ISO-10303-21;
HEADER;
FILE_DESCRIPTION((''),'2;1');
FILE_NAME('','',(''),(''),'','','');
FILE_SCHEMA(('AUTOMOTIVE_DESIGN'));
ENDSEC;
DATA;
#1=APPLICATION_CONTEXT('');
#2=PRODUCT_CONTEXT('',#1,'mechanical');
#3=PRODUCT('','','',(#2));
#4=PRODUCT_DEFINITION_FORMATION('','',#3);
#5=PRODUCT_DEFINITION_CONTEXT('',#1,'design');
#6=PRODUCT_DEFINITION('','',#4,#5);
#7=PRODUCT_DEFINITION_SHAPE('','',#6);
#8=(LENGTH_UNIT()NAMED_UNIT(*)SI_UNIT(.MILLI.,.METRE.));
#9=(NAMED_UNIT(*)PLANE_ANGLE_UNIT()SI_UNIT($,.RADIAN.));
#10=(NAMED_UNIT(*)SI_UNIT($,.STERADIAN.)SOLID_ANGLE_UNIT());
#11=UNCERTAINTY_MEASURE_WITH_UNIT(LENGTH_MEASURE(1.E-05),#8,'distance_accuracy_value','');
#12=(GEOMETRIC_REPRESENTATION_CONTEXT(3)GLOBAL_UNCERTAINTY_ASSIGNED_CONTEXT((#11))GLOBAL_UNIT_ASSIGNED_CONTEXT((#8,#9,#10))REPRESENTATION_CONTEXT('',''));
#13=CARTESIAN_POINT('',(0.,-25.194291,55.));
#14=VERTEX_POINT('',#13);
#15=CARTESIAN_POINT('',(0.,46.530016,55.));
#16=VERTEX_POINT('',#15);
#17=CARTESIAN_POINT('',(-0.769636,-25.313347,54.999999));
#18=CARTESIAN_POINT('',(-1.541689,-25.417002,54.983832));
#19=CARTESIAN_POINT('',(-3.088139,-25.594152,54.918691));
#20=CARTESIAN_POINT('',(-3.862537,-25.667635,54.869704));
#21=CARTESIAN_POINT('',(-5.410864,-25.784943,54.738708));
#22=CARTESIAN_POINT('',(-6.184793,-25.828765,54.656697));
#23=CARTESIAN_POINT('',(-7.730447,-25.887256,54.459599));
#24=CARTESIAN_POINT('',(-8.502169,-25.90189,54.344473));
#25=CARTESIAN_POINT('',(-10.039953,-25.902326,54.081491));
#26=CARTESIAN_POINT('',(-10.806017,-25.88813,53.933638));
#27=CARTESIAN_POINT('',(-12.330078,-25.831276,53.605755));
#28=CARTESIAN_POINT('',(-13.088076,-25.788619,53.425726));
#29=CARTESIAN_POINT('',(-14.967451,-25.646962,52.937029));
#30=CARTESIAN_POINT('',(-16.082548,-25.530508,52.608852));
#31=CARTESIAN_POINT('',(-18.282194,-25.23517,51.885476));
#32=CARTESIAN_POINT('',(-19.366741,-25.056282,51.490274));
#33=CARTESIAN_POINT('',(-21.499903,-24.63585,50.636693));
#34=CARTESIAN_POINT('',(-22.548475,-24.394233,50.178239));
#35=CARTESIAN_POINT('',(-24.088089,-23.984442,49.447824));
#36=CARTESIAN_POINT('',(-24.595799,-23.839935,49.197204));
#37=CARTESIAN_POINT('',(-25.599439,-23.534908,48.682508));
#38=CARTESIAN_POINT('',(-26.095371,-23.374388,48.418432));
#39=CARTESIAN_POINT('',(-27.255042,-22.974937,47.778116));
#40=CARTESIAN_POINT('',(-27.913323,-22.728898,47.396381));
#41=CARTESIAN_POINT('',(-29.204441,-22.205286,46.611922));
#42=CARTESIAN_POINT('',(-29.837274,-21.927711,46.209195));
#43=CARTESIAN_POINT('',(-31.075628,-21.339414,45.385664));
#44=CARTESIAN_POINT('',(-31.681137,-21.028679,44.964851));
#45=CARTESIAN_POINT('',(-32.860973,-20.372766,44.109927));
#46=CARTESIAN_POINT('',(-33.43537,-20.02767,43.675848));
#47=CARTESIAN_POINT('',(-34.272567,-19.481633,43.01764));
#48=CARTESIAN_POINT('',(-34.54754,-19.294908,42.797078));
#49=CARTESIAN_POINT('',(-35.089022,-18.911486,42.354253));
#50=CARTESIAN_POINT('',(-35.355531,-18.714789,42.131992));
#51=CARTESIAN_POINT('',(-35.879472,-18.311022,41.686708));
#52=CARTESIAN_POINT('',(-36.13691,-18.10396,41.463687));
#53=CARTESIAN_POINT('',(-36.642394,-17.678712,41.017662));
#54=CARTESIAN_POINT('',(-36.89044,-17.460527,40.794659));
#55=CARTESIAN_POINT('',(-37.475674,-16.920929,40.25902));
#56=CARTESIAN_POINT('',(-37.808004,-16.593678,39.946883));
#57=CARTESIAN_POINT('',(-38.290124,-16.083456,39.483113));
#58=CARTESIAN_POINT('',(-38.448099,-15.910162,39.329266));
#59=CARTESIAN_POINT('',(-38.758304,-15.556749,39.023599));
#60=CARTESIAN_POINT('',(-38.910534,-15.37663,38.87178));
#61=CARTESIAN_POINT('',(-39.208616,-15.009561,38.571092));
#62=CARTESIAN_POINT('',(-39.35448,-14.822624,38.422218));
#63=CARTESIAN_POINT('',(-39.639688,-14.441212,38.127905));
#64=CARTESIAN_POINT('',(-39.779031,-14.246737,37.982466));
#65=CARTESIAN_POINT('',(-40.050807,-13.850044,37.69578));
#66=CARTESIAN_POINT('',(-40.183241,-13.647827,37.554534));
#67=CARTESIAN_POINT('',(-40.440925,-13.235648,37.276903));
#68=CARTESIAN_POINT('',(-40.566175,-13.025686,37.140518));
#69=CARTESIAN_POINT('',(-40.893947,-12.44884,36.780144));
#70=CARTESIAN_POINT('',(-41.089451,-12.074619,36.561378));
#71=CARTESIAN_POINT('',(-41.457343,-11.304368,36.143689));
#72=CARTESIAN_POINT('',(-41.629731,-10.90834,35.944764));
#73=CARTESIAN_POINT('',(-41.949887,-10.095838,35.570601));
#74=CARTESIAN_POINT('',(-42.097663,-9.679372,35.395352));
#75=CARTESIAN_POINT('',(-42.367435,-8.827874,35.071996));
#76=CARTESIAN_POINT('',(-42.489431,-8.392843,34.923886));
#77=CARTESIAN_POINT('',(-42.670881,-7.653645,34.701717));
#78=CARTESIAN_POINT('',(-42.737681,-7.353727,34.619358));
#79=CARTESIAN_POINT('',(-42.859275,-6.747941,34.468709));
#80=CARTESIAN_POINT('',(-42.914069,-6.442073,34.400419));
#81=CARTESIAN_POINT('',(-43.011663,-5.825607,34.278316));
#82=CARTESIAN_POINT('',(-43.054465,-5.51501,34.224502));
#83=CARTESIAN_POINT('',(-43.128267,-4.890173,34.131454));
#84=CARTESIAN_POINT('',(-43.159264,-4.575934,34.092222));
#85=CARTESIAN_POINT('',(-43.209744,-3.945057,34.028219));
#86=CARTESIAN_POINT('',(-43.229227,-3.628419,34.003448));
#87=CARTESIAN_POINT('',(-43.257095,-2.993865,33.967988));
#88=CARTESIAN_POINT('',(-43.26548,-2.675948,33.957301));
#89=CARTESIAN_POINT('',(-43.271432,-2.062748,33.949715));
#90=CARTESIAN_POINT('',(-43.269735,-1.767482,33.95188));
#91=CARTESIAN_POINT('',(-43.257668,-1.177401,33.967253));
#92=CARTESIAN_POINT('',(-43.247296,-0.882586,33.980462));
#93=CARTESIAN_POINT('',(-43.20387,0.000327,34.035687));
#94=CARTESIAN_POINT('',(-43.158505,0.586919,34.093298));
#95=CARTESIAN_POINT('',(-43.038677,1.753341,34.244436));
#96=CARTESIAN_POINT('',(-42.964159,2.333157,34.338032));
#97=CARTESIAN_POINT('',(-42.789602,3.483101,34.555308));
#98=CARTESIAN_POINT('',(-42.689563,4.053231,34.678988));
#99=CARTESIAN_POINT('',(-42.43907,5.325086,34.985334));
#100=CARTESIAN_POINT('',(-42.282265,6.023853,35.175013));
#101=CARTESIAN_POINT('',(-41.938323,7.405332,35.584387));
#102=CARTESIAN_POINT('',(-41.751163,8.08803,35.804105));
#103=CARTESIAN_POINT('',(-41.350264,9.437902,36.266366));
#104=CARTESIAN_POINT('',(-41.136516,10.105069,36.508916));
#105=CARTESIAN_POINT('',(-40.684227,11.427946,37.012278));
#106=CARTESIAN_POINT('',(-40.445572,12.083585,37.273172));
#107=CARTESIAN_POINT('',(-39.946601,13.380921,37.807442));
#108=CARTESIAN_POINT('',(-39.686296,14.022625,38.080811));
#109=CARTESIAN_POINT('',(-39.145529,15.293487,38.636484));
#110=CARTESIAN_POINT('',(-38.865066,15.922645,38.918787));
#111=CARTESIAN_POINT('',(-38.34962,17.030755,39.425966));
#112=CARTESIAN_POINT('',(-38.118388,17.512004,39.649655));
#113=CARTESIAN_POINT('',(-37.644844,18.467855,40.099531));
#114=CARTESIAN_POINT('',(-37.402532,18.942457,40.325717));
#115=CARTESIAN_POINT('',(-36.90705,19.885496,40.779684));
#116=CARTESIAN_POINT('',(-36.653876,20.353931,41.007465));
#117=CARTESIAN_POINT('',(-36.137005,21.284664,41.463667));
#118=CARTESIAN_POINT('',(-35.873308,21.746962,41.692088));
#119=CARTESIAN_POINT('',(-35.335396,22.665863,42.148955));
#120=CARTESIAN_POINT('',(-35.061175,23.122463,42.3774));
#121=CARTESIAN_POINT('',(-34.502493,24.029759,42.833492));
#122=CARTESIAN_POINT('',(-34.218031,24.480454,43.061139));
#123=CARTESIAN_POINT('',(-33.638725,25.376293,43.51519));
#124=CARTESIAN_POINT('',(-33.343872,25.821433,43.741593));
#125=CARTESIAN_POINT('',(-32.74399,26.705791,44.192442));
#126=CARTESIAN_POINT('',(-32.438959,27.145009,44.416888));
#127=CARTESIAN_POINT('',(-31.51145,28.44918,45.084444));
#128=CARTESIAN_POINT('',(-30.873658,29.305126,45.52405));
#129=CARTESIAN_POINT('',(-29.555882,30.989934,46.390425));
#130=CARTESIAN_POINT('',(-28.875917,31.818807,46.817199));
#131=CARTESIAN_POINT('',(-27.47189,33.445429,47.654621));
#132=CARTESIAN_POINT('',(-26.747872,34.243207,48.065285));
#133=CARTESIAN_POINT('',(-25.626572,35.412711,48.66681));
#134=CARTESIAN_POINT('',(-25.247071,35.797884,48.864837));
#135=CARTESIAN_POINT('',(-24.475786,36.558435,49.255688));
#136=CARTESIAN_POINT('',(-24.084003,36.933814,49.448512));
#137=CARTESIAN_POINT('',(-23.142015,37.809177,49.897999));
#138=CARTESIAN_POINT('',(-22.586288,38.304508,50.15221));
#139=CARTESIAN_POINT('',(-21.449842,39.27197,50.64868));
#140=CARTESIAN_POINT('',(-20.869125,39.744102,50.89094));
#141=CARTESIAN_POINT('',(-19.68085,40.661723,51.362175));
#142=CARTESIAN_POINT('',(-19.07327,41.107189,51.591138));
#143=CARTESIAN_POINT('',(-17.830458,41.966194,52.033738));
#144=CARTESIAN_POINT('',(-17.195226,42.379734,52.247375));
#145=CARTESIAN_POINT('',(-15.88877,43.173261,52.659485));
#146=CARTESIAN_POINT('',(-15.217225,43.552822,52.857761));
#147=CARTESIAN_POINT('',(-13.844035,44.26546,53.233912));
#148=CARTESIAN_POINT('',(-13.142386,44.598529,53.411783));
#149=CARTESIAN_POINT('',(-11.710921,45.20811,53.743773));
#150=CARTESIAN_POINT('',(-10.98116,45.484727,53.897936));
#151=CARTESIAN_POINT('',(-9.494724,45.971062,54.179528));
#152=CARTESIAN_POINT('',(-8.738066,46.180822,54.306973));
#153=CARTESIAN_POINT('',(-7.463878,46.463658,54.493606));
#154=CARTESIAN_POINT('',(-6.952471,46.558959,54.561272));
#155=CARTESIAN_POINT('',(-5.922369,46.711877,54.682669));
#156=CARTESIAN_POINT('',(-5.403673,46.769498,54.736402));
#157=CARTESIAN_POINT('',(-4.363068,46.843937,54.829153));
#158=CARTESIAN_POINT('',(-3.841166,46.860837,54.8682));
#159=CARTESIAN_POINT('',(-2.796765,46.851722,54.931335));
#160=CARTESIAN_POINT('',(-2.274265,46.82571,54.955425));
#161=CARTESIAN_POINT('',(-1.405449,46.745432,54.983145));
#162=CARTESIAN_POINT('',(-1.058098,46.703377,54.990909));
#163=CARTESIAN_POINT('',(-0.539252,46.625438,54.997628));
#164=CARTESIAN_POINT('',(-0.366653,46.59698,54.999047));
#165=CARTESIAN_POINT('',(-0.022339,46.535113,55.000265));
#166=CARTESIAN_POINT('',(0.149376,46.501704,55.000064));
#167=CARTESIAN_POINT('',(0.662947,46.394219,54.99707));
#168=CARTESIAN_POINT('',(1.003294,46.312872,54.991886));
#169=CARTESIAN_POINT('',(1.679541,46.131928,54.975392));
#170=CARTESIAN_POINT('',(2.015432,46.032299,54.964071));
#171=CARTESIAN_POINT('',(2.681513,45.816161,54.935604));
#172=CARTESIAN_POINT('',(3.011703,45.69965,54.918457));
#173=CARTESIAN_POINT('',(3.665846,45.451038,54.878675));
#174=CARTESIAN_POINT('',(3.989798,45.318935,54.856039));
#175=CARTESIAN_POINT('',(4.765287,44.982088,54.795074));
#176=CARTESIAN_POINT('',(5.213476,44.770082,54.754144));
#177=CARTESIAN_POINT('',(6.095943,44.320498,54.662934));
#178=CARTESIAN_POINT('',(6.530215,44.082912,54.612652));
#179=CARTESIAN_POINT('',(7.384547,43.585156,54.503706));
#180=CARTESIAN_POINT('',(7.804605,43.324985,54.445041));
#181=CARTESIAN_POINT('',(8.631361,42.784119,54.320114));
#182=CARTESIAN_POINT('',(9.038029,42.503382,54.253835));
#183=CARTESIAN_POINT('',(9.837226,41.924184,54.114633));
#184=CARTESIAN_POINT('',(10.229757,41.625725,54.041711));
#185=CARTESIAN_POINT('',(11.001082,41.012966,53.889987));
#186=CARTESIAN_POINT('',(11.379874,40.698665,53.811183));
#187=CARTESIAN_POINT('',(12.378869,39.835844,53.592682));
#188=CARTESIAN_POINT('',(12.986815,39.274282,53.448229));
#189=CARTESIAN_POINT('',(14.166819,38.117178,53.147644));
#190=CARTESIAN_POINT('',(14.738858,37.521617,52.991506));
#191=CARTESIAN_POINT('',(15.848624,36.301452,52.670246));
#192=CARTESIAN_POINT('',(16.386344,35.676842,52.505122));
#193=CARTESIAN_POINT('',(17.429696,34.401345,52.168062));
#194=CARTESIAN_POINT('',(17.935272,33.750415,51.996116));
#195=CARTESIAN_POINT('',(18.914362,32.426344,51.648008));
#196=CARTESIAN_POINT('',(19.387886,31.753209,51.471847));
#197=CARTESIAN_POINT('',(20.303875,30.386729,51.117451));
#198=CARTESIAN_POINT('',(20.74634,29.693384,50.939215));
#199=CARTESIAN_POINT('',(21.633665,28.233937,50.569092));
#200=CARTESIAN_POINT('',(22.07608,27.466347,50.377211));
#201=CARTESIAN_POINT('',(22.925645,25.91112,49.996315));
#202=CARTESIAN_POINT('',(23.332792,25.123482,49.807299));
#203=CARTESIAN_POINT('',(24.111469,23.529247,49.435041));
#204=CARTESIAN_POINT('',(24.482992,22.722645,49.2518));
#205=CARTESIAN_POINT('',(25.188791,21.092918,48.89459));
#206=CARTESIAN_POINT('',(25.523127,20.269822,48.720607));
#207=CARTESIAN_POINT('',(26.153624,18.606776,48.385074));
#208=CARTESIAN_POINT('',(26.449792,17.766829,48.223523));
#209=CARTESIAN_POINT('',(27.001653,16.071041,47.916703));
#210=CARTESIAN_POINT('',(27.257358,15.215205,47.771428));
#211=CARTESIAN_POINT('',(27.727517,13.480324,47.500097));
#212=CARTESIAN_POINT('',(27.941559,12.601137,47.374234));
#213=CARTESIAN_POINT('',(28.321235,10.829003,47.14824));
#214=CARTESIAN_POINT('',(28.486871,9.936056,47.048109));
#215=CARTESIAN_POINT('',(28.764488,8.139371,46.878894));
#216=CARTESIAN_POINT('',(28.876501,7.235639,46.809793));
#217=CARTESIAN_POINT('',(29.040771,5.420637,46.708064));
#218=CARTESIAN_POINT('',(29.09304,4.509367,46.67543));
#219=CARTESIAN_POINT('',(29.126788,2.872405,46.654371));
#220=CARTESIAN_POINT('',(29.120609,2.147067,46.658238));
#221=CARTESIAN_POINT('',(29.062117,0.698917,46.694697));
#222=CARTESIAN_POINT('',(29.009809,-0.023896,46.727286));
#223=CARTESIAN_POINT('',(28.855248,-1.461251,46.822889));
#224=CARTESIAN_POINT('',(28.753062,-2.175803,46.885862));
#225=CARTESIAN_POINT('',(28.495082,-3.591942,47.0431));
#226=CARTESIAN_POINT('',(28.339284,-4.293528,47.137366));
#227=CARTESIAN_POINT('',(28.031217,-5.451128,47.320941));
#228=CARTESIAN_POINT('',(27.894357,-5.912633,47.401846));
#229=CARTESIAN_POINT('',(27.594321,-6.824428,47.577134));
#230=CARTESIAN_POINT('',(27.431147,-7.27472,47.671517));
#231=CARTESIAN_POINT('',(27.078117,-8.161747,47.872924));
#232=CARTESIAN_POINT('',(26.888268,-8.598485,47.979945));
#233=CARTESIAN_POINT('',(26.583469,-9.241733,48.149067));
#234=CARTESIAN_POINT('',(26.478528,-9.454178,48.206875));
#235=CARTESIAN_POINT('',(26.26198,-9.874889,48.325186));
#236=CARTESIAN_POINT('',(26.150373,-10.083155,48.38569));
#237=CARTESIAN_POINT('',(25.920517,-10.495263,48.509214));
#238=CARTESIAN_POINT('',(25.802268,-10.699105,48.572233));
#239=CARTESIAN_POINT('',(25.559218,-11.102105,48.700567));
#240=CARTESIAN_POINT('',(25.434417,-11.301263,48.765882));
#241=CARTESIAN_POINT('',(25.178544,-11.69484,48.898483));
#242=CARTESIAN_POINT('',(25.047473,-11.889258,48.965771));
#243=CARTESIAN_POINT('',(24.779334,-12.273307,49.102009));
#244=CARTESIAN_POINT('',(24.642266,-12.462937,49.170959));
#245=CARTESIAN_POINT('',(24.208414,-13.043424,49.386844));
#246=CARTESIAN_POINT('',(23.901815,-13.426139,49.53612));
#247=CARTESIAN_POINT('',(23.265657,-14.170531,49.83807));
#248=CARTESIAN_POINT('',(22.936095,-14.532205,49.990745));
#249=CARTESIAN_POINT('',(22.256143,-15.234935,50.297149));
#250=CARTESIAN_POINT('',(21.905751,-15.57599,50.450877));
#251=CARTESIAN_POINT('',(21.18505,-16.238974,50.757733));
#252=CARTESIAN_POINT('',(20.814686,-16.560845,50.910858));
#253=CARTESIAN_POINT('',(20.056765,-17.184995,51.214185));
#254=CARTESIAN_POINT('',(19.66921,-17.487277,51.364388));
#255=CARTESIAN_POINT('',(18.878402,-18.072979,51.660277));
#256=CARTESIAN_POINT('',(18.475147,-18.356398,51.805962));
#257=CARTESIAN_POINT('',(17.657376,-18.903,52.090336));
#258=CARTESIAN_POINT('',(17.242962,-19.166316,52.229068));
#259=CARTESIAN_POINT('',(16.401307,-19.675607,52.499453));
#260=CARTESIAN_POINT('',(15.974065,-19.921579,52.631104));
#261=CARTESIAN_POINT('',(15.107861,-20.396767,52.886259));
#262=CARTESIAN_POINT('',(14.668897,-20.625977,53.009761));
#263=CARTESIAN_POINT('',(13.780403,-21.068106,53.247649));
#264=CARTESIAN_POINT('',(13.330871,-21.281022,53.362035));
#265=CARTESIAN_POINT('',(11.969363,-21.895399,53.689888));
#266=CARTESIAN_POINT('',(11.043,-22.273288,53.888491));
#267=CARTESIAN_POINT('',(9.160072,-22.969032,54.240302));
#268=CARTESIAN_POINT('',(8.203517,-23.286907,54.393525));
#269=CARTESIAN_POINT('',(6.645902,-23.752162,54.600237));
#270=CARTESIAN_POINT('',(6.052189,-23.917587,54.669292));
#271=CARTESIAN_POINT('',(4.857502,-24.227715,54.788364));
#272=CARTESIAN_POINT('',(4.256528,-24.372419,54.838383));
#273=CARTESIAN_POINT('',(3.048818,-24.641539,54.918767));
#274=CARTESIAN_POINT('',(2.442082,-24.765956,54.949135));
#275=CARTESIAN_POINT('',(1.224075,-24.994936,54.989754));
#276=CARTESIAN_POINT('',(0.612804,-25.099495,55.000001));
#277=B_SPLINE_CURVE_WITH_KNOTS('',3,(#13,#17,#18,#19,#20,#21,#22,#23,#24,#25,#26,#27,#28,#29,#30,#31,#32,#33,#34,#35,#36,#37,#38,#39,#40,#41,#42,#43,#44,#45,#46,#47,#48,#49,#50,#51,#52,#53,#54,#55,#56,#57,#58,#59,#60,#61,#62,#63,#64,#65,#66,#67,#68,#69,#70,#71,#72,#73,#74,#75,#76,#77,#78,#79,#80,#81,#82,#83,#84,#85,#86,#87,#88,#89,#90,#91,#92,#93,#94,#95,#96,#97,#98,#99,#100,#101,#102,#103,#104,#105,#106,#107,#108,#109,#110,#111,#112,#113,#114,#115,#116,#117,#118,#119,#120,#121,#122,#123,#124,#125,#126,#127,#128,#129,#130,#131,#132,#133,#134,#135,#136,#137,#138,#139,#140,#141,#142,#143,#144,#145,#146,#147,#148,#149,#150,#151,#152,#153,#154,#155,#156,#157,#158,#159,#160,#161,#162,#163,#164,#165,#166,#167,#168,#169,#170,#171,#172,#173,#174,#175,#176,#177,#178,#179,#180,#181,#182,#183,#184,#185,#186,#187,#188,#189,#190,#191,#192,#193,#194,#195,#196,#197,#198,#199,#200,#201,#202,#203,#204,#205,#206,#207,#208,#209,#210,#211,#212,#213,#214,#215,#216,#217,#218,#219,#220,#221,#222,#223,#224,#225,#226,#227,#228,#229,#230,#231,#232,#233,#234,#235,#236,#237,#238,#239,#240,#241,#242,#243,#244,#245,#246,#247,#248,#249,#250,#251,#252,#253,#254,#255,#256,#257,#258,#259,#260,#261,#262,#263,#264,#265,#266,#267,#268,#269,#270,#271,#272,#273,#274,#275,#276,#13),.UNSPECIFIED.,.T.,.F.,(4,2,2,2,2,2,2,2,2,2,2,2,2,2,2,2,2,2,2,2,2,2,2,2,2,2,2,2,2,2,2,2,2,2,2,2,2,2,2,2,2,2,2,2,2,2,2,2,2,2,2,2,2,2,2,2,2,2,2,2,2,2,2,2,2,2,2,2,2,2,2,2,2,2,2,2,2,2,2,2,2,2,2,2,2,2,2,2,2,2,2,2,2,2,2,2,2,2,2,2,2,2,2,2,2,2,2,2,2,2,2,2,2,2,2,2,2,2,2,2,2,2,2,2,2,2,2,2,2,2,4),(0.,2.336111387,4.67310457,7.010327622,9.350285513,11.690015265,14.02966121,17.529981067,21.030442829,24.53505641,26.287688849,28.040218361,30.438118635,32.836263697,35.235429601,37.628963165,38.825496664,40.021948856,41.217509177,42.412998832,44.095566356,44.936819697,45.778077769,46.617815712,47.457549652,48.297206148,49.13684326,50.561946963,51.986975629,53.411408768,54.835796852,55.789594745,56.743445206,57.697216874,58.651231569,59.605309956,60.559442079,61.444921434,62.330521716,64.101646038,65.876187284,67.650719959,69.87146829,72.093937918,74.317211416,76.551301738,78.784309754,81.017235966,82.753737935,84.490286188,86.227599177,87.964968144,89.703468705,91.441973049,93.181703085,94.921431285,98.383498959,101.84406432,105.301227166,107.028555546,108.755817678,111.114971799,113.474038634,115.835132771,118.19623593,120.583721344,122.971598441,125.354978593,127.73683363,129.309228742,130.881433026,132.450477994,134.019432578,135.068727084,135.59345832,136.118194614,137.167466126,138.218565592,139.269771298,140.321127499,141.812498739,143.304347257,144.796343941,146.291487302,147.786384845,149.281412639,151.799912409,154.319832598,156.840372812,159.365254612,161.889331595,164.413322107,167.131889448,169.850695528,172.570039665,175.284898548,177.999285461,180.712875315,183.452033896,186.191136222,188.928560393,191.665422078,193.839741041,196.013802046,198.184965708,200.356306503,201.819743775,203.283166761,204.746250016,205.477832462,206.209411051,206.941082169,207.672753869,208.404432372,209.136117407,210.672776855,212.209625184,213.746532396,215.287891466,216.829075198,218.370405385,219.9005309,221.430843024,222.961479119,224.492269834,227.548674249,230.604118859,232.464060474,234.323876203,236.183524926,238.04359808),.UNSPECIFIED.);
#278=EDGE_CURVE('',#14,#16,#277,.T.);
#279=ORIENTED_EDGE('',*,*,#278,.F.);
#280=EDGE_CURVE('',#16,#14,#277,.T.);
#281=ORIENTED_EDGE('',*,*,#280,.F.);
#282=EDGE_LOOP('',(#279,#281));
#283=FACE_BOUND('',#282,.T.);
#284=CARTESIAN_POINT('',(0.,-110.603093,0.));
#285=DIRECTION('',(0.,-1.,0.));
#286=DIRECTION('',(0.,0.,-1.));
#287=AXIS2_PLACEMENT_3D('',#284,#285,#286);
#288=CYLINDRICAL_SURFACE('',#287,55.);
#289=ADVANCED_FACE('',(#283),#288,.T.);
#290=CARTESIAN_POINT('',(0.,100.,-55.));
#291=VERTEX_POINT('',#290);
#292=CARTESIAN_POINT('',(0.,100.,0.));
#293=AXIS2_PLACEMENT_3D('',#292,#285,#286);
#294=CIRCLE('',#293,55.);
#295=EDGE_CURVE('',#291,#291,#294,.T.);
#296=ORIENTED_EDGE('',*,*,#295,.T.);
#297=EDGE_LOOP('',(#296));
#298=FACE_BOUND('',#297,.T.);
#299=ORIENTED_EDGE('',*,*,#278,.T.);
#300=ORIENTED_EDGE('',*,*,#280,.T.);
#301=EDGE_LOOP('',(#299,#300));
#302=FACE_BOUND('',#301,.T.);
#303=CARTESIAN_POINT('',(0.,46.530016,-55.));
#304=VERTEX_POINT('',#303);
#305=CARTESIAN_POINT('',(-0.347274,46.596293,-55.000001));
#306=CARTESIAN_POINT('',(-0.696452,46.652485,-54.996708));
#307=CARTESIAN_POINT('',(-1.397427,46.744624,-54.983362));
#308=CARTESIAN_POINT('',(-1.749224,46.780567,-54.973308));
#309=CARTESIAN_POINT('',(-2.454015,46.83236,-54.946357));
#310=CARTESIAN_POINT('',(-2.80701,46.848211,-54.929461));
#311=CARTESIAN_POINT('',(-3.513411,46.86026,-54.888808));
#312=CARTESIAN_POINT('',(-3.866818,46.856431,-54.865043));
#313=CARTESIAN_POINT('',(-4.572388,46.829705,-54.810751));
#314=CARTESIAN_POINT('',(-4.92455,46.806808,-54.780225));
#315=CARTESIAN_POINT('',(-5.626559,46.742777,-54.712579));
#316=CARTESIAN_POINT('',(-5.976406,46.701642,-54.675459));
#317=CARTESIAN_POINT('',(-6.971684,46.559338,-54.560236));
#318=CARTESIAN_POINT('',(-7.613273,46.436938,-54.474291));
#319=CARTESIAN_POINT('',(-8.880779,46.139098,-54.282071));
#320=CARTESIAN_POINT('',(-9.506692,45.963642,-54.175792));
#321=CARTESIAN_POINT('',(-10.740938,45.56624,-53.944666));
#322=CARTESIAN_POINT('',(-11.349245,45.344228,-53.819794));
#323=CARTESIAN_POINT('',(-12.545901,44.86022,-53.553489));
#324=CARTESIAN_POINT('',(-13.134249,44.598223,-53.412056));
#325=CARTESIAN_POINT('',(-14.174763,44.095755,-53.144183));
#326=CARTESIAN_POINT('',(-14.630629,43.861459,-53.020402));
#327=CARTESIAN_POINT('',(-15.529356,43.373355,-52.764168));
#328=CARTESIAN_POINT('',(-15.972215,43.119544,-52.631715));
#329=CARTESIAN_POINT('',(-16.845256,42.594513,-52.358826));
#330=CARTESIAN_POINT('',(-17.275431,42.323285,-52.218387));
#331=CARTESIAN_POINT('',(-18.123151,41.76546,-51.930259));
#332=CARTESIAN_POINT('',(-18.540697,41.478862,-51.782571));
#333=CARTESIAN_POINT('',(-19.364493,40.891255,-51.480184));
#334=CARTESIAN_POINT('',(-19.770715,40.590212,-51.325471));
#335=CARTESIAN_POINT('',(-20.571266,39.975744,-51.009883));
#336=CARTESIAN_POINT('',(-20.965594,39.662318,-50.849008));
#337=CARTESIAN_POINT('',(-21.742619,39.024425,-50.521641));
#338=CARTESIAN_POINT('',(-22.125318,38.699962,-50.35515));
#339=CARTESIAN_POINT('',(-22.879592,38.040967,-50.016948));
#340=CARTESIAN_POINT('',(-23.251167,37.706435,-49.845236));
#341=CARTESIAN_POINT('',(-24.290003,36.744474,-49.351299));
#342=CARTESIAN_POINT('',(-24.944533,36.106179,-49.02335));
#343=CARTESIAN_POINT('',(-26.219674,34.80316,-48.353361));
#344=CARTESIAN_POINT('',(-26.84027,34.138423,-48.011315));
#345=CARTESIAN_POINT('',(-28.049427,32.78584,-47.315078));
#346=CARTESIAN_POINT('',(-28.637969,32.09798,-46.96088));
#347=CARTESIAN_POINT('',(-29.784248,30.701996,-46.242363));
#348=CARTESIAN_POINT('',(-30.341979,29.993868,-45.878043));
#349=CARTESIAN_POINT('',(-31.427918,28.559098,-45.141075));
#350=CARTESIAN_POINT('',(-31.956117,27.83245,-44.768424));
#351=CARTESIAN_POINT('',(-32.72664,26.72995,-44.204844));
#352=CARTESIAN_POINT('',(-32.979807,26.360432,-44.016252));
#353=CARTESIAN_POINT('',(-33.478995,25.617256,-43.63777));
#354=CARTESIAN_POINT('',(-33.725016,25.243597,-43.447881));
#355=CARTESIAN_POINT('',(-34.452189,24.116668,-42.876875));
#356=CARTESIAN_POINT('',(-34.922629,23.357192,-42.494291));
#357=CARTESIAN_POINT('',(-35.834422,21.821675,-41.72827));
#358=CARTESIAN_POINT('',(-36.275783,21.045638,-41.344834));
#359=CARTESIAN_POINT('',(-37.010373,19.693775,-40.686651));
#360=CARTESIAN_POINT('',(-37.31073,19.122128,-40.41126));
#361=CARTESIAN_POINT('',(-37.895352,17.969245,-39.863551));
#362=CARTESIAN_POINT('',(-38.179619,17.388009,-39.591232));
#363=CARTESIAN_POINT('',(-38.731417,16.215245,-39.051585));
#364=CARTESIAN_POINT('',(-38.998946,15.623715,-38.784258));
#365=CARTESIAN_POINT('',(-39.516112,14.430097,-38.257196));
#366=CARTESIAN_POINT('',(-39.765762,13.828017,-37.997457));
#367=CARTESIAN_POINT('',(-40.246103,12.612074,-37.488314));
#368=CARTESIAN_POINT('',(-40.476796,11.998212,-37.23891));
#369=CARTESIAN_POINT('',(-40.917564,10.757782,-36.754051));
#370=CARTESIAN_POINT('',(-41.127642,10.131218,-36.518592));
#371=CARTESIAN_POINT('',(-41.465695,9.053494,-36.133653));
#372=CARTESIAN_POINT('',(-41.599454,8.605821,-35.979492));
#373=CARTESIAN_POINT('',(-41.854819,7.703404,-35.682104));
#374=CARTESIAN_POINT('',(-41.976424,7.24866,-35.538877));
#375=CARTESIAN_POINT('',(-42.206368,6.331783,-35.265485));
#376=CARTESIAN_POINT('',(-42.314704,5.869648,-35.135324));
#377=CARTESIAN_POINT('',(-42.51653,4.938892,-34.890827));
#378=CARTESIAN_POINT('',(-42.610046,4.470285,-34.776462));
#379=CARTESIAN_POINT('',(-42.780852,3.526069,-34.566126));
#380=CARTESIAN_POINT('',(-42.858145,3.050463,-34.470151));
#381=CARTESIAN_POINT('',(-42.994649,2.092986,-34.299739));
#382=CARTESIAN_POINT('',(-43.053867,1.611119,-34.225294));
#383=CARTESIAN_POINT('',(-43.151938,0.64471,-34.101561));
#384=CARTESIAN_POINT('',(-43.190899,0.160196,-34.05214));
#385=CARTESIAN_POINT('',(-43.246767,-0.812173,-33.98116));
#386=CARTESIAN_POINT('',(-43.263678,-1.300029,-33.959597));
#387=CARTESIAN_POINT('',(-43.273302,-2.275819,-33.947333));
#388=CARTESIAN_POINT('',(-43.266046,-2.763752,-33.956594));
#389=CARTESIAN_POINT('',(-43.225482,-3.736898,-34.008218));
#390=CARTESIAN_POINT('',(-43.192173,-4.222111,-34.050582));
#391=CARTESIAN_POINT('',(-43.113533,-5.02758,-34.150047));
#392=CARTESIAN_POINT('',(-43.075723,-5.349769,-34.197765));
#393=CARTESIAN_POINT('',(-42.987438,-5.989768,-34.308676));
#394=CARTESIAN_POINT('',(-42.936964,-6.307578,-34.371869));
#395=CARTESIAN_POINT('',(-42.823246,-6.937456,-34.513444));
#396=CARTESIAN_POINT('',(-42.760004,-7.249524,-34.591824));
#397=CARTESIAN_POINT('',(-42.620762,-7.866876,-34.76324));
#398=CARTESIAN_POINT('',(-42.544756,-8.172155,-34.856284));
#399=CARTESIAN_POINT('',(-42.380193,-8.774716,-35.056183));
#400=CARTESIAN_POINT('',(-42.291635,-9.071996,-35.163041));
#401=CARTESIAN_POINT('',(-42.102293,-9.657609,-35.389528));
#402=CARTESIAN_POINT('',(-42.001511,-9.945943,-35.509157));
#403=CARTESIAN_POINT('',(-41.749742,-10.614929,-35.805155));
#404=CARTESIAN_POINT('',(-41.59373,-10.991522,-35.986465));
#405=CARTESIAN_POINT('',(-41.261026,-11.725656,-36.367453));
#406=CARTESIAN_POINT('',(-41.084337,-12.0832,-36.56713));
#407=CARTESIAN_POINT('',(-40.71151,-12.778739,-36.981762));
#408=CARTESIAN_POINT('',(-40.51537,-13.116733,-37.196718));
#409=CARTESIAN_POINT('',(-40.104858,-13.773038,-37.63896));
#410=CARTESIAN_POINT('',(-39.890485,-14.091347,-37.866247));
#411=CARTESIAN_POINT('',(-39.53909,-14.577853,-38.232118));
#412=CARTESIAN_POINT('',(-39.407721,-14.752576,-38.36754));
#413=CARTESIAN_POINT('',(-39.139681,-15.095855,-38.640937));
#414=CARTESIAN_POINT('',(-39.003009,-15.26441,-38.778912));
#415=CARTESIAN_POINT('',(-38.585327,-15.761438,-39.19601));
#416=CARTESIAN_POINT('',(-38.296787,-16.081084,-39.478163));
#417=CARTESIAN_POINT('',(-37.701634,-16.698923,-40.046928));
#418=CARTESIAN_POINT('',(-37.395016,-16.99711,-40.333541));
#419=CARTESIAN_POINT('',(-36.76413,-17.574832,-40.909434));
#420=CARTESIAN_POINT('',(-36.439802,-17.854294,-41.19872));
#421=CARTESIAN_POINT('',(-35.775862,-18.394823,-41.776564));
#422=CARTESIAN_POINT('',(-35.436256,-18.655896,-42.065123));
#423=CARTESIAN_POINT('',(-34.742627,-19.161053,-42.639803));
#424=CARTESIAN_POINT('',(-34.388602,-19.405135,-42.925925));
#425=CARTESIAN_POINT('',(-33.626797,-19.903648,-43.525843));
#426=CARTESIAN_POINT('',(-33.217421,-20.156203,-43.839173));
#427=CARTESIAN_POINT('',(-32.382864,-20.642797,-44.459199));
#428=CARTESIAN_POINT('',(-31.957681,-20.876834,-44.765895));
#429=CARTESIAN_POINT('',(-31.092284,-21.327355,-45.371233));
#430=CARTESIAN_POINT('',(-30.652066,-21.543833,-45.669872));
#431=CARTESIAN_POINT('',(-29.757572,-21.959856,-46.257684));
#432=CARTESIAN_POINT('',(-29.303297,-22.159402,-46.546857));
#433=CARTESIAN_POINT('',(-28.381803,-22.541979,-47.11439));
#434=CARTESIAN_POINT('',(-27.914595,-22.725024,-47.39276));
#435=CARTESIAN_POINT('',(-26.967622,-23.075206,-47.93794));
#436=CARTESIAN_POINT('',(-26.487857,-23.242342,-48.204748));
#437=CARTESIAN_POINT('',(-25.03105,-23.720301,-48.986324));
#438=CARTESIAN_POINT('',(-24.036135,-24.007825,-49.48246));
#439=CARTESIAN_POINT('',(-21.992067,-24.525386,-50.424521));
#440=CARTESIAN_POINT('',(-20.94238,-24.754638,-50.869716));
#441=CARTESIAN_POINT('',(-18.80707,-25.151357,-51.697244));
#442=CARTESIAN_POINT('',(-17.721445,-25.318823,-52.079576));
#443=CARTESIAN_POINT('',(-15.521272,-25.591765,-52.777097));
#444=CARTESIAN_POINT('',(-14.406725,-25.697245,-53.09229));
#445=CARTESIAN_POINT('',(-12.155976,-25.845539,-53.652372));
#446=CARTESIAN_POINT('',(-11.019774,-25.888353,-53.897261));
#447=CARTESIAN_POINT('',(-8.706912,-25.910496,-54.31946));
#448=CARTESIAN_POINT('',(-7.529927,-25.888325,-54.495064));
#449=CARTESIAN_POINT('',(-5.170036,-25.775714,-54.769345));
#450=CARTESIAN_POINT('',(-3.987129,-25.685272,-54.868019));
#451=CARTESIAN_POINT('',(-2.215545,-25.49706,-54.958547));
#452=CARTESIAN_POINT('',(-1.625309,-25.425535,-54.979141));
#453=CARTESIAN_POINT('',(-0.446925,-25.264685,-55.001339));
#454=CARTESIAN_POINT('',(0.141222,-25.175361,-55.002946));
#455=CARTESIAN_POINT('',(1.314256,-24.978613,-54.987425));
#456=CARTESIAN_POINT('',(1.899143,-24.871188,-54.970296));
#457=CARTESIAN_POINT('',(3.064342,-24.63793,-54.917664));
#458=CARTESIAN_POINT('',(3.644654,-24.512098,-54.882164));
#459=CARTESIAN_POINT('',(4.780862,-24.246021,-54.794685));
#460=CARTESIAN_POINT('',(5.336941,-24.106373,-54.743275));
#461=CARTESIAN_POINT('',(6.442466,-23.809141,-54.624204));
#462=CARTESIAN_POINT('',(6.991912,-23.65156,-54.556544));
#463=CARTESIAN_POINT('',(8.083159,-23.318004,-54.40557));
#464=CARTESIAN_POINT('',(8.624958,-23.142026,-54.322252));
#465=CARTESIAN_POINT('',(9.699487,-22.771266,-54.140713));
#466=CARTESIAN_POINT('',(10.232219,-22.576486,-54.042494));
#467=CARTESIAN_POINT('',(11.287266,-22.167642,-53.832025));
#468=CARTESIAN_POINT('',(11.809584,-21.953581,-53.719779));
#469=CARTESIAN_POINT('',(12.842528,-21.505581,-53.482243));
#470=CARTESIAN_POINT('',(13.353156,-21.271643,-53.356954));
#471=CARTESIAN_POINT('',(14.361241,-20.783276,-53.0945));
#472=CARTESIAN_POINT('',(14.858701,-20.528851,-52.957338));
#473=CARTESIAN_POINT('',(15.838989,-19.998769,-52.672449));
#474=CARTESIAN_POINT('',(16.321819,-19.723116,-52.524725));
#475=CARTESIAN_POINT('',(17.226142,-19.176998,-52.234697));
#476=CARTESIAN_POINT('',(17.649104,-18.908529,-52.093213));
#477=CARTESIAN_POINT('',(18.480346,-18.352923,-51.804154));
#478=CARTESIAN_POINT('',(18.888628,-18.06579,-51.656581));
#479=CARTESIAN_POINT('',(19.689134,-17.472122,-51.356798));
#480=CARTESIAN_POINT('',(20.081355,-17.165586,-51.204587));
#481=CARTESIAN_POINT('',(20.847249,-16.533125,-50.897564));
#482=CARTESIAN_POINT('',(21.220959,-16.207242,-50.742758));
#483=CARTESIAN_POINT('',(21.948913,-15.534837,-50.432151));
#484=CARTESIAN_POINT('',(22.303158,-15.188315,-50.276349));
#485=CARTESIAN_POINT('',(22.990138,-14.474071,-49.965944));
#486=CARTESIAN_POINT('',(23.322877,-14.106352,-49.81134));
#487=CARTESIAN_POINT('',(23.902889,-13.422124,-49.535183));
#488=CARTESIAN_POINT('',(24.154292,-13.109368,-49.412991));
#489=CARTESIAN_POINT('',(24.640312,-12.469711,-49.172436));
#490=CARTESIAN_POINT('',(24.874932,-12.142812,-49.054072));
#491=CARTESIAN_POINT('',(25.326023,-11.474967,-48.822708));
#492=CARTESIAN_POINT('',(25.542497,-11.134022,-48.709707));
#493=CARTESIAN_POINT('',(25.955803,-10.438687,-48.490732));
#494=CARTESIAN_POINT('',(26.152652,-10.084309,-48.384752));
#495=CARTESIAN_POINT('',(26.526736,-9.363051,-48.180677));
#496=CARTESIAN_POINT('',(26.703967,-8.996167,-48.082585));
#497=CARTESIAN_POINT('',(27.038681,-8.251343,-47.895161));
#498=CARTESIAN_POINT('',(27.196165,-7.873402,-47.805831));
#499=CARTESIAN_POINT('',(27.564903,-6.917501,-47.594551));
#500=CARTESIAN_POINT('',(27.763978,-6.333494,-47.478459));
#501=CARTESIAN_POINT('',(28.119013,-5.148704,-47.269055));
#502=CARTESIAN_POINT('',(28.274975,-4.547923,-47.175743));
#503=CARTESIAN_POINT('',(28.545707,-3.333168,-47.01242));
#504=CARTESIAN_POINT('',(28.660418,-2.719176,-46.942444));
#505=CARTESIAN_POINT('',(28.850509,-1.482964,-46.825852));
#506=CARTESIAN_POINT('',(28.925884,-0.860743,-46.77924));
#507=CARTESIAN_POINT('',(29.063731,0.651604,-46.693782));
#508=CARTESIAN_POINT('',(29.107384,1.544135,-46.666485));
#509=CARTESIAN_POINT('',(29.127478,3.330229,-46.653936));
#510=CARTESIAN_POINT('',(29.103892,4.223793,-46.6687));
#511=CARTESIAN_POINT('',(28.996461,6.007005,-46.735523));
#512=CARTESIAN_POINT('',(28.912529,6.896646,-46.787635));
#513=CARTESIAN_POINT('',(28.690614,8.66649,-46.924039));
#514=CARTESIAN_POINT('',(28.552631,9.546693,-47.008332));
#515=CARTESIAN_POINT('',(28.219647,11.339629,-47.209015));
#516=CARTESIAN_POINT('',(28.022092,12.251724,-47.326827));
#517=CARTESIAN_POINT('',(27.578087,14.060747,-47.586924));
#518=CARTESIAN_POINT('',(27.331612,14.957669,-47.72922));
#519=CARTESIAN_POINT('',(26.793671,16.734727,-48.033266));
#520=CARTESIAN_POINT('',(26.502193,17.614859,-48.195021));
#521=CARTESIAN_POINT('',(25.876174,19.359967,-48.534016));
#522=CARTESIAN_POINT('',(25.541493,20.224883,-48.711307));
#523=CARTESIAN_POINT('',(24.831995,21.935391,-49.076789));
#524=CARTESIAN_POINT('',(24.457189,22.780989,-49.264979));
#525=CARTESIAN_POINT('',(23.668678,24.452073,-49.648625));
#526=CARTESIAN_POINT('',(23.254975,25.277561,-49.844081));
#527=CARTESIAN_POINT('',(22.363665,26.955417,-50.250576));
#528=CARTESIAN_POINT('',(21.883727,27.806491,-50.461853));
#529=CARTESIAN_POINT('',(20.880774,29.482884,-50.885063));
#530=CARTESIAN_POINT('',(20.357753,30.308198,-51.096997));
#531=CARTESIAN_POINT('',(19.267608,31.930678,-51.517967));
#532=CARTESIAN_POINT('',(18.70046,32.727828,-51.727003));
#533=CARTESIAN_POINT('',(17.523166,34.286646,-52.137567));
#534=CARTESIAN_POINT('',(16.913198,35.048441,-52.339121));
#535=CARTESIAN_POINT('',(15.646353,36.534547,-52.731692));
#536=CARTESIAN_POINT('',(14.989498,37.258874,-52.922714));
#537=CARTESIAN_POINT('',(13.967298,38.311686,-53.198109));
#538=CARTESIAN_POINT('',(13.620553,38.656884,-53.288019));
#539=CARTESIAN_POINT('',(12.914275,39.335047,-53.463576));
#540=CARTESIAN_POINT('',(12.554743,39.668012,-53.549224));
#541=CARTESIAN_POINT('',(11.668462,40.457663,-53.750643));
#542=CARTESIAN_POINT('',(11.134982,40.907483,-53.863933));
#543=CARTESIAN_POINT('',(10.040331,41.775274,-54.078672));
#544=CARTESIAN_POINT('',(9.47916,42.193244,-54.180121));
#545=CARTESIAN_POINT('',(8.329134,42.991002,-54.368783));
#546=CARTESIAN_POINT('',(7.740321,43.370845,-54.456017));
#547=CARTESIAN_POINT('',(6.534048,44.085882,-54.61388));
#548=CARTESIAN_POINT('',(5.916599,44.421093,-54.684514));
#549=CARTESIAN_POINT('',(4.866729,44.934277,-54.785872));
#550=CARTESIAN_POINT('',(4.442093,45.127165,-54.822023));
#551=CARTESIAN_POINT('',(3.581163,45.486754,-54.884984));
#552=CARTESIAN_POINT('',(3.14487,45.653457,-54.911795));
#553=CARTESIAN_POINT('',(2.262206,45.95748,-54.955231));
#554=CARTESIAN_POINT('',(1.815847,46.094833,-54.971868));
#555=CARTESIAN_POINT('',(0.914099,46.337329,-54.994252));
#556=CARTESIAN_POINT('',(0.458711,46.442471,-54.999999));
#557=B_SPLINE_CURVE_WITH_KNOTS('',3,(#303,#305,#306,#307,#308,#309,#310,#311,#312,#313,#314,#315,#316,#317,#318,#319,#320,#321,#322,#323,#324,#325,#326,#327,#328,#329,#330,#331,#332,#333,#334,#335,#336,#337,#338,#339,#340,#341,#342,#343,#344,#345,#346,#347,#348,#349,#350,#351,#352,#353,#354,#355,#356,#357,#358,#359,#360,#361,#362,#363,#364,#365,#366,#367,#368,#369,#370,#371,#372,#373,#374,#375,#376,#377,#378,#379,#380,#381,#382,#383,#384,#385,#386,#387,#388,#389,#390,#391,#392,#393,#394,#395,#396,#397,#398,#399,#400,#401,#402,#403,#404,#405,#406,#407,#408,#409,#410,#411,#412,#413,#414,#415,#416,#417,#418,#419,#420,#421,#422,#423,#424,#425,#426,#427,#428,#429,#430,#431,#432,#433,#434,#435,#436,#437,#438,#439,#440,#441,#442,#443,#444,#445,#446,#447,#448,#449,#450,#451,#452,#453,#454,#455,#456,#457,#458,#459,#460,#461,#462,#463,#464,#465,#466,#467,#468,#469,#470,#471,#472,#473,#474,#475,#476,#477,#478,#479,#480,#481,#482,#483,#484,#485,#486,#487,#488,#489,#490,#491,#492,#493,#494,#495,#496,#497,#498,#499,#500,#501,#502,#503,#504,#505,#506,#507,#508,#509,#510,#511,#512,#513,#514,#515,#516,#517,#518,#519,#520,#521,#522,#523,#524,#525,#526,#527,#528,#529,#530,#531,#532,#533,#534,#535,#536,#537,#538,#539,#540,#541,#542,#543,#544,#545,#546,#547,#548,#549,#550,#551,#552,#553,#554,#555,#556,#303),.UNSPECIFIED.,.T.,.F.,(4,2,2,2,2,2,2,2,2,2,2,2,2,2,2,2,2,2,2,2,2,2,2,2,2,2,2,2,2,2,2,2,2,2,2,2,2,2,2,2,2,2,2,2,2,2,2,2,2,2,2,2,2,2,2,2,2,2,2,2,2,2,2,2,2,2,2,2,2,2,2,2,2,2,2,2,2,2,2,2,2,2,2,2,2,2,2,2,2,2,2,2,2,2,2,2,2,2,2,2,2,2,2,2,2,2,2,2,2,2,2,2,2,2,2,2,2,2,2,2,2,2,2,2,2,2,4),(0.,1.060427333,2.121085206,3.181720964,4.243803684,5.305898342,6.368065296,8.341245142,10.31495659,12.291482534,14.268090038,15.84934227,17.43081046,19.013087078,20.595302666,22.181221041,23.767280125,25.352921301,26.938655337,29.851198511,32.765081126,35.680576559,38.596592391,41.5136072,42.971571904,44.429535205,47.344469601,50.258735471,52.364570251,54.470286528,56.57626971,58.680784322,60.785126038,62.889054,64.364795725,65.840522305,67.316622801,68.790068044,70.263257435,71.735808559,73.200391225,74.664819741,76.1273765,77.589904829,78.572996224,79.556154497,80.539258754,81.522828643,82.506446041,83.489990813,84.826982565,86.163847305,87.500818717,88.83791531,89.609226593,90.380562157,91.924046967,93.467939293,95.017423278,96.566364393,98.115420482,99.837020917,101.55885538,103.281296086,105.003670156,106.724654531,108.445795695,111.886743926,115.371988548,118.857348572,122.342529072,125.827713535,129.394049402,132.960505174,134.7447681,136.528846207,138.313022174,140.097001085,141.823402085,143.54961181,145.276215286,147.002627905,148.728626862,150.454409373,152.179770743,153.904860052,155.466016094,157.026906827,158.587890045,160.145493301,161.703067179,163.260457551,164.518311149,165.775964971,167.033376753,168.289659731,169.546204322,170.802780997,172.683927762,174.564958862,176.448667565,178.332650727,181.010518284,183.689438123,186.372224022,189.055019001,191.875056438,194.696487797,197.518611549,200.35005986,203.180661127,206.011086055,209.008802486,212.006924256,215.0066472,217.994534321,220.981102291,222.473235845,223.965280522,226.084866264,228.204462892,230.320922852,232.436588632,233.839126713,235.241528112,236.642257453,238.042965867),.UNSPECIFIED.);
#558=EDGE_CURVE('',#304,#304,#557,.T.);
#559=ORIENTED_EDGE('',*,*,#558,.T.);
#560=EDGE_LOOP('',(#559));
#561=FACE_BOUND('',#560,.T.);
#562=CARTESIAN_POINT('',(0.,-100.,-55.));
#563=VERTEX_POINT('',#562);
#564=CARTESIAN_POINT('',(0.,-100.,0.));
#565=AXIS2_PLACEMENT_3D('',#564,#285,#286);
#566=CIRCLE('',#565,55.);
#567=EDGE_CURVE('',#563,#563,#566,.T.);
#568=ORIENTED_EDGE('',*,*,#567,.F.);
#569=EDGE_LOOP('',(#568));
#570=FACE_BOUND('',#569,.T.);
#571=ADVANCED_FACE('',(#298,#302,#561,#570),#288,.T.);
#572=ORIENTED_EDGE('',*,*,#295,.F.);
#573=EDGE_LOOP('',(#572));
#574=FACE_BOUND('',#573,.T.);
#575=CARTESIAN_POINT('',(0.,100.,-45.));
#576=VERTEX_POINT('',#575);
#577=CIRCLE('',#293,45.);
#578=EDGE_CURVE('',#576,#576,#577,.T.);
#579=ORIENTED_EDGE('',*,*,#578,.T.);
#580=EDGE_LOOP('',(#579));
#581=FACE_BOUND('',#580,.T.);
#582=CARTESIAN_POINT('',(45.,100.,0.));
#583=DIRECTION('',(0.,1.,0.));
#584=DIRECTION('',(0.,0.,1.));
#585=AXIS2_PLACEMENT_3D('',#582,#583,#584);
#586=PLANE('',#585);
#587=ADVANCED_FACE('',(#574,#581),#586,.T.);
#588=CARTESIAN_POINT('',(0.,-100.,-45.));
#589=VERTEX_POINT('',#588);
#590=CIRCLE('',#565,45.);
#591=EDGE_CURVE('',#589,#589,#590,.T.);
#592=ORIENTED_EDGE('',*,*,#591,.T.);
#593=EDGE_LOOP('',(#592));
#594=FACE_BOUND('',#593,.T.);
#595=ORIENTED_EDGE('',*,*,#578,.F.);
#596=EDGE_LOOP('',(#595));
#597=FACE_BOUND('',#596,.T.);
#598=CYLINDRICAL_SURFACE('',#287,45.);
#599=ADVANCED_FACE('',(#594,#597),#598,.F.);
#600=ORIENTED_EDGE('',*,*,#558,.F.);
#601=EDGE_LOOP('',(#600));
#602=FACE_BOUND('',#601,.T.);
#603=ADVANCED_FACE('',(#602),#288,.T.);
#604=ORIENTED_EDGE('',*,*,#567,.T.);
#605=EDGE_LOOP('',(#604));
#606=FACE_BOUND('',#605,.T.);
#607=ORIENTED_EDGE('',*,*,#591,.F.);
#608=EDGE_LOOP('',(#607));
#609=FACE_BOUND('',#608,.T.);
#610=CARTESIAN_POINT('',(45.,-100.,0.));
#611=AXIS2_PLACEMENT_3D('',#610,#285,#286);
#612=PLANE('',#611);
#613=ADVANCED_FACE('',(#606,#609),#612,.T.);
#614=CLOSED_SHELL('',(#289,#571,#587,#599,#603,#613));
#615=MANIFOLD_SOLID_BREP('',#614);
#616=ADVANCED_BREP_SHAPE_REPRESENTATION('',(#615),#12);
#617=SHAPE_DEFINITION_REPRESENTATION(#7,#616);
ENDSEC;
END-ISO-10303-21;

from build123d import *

# Parameters (mm, degrees)
SKETCH_1_W = 10
SKETCH_1_H = 200


with BuildPart() as part:
    # Эскиз1 → Повернуть1 (revolve)
    with BuildSketch(Plane.XY, mode=Mode.PRIVATE) as revolve_1_sk:
        with Locations((50, 0)):
            Rectangle(SKETCH_1_W, SKETCH_1_H)
    revolve(revolve_1_sk.sketch.rotate(Axis((0, -110.603092707, 0), (0, 1, 0)), 90), axis=Axis((0, -110.603092707, 0), (0, 1, 0)))


solid = part.part
